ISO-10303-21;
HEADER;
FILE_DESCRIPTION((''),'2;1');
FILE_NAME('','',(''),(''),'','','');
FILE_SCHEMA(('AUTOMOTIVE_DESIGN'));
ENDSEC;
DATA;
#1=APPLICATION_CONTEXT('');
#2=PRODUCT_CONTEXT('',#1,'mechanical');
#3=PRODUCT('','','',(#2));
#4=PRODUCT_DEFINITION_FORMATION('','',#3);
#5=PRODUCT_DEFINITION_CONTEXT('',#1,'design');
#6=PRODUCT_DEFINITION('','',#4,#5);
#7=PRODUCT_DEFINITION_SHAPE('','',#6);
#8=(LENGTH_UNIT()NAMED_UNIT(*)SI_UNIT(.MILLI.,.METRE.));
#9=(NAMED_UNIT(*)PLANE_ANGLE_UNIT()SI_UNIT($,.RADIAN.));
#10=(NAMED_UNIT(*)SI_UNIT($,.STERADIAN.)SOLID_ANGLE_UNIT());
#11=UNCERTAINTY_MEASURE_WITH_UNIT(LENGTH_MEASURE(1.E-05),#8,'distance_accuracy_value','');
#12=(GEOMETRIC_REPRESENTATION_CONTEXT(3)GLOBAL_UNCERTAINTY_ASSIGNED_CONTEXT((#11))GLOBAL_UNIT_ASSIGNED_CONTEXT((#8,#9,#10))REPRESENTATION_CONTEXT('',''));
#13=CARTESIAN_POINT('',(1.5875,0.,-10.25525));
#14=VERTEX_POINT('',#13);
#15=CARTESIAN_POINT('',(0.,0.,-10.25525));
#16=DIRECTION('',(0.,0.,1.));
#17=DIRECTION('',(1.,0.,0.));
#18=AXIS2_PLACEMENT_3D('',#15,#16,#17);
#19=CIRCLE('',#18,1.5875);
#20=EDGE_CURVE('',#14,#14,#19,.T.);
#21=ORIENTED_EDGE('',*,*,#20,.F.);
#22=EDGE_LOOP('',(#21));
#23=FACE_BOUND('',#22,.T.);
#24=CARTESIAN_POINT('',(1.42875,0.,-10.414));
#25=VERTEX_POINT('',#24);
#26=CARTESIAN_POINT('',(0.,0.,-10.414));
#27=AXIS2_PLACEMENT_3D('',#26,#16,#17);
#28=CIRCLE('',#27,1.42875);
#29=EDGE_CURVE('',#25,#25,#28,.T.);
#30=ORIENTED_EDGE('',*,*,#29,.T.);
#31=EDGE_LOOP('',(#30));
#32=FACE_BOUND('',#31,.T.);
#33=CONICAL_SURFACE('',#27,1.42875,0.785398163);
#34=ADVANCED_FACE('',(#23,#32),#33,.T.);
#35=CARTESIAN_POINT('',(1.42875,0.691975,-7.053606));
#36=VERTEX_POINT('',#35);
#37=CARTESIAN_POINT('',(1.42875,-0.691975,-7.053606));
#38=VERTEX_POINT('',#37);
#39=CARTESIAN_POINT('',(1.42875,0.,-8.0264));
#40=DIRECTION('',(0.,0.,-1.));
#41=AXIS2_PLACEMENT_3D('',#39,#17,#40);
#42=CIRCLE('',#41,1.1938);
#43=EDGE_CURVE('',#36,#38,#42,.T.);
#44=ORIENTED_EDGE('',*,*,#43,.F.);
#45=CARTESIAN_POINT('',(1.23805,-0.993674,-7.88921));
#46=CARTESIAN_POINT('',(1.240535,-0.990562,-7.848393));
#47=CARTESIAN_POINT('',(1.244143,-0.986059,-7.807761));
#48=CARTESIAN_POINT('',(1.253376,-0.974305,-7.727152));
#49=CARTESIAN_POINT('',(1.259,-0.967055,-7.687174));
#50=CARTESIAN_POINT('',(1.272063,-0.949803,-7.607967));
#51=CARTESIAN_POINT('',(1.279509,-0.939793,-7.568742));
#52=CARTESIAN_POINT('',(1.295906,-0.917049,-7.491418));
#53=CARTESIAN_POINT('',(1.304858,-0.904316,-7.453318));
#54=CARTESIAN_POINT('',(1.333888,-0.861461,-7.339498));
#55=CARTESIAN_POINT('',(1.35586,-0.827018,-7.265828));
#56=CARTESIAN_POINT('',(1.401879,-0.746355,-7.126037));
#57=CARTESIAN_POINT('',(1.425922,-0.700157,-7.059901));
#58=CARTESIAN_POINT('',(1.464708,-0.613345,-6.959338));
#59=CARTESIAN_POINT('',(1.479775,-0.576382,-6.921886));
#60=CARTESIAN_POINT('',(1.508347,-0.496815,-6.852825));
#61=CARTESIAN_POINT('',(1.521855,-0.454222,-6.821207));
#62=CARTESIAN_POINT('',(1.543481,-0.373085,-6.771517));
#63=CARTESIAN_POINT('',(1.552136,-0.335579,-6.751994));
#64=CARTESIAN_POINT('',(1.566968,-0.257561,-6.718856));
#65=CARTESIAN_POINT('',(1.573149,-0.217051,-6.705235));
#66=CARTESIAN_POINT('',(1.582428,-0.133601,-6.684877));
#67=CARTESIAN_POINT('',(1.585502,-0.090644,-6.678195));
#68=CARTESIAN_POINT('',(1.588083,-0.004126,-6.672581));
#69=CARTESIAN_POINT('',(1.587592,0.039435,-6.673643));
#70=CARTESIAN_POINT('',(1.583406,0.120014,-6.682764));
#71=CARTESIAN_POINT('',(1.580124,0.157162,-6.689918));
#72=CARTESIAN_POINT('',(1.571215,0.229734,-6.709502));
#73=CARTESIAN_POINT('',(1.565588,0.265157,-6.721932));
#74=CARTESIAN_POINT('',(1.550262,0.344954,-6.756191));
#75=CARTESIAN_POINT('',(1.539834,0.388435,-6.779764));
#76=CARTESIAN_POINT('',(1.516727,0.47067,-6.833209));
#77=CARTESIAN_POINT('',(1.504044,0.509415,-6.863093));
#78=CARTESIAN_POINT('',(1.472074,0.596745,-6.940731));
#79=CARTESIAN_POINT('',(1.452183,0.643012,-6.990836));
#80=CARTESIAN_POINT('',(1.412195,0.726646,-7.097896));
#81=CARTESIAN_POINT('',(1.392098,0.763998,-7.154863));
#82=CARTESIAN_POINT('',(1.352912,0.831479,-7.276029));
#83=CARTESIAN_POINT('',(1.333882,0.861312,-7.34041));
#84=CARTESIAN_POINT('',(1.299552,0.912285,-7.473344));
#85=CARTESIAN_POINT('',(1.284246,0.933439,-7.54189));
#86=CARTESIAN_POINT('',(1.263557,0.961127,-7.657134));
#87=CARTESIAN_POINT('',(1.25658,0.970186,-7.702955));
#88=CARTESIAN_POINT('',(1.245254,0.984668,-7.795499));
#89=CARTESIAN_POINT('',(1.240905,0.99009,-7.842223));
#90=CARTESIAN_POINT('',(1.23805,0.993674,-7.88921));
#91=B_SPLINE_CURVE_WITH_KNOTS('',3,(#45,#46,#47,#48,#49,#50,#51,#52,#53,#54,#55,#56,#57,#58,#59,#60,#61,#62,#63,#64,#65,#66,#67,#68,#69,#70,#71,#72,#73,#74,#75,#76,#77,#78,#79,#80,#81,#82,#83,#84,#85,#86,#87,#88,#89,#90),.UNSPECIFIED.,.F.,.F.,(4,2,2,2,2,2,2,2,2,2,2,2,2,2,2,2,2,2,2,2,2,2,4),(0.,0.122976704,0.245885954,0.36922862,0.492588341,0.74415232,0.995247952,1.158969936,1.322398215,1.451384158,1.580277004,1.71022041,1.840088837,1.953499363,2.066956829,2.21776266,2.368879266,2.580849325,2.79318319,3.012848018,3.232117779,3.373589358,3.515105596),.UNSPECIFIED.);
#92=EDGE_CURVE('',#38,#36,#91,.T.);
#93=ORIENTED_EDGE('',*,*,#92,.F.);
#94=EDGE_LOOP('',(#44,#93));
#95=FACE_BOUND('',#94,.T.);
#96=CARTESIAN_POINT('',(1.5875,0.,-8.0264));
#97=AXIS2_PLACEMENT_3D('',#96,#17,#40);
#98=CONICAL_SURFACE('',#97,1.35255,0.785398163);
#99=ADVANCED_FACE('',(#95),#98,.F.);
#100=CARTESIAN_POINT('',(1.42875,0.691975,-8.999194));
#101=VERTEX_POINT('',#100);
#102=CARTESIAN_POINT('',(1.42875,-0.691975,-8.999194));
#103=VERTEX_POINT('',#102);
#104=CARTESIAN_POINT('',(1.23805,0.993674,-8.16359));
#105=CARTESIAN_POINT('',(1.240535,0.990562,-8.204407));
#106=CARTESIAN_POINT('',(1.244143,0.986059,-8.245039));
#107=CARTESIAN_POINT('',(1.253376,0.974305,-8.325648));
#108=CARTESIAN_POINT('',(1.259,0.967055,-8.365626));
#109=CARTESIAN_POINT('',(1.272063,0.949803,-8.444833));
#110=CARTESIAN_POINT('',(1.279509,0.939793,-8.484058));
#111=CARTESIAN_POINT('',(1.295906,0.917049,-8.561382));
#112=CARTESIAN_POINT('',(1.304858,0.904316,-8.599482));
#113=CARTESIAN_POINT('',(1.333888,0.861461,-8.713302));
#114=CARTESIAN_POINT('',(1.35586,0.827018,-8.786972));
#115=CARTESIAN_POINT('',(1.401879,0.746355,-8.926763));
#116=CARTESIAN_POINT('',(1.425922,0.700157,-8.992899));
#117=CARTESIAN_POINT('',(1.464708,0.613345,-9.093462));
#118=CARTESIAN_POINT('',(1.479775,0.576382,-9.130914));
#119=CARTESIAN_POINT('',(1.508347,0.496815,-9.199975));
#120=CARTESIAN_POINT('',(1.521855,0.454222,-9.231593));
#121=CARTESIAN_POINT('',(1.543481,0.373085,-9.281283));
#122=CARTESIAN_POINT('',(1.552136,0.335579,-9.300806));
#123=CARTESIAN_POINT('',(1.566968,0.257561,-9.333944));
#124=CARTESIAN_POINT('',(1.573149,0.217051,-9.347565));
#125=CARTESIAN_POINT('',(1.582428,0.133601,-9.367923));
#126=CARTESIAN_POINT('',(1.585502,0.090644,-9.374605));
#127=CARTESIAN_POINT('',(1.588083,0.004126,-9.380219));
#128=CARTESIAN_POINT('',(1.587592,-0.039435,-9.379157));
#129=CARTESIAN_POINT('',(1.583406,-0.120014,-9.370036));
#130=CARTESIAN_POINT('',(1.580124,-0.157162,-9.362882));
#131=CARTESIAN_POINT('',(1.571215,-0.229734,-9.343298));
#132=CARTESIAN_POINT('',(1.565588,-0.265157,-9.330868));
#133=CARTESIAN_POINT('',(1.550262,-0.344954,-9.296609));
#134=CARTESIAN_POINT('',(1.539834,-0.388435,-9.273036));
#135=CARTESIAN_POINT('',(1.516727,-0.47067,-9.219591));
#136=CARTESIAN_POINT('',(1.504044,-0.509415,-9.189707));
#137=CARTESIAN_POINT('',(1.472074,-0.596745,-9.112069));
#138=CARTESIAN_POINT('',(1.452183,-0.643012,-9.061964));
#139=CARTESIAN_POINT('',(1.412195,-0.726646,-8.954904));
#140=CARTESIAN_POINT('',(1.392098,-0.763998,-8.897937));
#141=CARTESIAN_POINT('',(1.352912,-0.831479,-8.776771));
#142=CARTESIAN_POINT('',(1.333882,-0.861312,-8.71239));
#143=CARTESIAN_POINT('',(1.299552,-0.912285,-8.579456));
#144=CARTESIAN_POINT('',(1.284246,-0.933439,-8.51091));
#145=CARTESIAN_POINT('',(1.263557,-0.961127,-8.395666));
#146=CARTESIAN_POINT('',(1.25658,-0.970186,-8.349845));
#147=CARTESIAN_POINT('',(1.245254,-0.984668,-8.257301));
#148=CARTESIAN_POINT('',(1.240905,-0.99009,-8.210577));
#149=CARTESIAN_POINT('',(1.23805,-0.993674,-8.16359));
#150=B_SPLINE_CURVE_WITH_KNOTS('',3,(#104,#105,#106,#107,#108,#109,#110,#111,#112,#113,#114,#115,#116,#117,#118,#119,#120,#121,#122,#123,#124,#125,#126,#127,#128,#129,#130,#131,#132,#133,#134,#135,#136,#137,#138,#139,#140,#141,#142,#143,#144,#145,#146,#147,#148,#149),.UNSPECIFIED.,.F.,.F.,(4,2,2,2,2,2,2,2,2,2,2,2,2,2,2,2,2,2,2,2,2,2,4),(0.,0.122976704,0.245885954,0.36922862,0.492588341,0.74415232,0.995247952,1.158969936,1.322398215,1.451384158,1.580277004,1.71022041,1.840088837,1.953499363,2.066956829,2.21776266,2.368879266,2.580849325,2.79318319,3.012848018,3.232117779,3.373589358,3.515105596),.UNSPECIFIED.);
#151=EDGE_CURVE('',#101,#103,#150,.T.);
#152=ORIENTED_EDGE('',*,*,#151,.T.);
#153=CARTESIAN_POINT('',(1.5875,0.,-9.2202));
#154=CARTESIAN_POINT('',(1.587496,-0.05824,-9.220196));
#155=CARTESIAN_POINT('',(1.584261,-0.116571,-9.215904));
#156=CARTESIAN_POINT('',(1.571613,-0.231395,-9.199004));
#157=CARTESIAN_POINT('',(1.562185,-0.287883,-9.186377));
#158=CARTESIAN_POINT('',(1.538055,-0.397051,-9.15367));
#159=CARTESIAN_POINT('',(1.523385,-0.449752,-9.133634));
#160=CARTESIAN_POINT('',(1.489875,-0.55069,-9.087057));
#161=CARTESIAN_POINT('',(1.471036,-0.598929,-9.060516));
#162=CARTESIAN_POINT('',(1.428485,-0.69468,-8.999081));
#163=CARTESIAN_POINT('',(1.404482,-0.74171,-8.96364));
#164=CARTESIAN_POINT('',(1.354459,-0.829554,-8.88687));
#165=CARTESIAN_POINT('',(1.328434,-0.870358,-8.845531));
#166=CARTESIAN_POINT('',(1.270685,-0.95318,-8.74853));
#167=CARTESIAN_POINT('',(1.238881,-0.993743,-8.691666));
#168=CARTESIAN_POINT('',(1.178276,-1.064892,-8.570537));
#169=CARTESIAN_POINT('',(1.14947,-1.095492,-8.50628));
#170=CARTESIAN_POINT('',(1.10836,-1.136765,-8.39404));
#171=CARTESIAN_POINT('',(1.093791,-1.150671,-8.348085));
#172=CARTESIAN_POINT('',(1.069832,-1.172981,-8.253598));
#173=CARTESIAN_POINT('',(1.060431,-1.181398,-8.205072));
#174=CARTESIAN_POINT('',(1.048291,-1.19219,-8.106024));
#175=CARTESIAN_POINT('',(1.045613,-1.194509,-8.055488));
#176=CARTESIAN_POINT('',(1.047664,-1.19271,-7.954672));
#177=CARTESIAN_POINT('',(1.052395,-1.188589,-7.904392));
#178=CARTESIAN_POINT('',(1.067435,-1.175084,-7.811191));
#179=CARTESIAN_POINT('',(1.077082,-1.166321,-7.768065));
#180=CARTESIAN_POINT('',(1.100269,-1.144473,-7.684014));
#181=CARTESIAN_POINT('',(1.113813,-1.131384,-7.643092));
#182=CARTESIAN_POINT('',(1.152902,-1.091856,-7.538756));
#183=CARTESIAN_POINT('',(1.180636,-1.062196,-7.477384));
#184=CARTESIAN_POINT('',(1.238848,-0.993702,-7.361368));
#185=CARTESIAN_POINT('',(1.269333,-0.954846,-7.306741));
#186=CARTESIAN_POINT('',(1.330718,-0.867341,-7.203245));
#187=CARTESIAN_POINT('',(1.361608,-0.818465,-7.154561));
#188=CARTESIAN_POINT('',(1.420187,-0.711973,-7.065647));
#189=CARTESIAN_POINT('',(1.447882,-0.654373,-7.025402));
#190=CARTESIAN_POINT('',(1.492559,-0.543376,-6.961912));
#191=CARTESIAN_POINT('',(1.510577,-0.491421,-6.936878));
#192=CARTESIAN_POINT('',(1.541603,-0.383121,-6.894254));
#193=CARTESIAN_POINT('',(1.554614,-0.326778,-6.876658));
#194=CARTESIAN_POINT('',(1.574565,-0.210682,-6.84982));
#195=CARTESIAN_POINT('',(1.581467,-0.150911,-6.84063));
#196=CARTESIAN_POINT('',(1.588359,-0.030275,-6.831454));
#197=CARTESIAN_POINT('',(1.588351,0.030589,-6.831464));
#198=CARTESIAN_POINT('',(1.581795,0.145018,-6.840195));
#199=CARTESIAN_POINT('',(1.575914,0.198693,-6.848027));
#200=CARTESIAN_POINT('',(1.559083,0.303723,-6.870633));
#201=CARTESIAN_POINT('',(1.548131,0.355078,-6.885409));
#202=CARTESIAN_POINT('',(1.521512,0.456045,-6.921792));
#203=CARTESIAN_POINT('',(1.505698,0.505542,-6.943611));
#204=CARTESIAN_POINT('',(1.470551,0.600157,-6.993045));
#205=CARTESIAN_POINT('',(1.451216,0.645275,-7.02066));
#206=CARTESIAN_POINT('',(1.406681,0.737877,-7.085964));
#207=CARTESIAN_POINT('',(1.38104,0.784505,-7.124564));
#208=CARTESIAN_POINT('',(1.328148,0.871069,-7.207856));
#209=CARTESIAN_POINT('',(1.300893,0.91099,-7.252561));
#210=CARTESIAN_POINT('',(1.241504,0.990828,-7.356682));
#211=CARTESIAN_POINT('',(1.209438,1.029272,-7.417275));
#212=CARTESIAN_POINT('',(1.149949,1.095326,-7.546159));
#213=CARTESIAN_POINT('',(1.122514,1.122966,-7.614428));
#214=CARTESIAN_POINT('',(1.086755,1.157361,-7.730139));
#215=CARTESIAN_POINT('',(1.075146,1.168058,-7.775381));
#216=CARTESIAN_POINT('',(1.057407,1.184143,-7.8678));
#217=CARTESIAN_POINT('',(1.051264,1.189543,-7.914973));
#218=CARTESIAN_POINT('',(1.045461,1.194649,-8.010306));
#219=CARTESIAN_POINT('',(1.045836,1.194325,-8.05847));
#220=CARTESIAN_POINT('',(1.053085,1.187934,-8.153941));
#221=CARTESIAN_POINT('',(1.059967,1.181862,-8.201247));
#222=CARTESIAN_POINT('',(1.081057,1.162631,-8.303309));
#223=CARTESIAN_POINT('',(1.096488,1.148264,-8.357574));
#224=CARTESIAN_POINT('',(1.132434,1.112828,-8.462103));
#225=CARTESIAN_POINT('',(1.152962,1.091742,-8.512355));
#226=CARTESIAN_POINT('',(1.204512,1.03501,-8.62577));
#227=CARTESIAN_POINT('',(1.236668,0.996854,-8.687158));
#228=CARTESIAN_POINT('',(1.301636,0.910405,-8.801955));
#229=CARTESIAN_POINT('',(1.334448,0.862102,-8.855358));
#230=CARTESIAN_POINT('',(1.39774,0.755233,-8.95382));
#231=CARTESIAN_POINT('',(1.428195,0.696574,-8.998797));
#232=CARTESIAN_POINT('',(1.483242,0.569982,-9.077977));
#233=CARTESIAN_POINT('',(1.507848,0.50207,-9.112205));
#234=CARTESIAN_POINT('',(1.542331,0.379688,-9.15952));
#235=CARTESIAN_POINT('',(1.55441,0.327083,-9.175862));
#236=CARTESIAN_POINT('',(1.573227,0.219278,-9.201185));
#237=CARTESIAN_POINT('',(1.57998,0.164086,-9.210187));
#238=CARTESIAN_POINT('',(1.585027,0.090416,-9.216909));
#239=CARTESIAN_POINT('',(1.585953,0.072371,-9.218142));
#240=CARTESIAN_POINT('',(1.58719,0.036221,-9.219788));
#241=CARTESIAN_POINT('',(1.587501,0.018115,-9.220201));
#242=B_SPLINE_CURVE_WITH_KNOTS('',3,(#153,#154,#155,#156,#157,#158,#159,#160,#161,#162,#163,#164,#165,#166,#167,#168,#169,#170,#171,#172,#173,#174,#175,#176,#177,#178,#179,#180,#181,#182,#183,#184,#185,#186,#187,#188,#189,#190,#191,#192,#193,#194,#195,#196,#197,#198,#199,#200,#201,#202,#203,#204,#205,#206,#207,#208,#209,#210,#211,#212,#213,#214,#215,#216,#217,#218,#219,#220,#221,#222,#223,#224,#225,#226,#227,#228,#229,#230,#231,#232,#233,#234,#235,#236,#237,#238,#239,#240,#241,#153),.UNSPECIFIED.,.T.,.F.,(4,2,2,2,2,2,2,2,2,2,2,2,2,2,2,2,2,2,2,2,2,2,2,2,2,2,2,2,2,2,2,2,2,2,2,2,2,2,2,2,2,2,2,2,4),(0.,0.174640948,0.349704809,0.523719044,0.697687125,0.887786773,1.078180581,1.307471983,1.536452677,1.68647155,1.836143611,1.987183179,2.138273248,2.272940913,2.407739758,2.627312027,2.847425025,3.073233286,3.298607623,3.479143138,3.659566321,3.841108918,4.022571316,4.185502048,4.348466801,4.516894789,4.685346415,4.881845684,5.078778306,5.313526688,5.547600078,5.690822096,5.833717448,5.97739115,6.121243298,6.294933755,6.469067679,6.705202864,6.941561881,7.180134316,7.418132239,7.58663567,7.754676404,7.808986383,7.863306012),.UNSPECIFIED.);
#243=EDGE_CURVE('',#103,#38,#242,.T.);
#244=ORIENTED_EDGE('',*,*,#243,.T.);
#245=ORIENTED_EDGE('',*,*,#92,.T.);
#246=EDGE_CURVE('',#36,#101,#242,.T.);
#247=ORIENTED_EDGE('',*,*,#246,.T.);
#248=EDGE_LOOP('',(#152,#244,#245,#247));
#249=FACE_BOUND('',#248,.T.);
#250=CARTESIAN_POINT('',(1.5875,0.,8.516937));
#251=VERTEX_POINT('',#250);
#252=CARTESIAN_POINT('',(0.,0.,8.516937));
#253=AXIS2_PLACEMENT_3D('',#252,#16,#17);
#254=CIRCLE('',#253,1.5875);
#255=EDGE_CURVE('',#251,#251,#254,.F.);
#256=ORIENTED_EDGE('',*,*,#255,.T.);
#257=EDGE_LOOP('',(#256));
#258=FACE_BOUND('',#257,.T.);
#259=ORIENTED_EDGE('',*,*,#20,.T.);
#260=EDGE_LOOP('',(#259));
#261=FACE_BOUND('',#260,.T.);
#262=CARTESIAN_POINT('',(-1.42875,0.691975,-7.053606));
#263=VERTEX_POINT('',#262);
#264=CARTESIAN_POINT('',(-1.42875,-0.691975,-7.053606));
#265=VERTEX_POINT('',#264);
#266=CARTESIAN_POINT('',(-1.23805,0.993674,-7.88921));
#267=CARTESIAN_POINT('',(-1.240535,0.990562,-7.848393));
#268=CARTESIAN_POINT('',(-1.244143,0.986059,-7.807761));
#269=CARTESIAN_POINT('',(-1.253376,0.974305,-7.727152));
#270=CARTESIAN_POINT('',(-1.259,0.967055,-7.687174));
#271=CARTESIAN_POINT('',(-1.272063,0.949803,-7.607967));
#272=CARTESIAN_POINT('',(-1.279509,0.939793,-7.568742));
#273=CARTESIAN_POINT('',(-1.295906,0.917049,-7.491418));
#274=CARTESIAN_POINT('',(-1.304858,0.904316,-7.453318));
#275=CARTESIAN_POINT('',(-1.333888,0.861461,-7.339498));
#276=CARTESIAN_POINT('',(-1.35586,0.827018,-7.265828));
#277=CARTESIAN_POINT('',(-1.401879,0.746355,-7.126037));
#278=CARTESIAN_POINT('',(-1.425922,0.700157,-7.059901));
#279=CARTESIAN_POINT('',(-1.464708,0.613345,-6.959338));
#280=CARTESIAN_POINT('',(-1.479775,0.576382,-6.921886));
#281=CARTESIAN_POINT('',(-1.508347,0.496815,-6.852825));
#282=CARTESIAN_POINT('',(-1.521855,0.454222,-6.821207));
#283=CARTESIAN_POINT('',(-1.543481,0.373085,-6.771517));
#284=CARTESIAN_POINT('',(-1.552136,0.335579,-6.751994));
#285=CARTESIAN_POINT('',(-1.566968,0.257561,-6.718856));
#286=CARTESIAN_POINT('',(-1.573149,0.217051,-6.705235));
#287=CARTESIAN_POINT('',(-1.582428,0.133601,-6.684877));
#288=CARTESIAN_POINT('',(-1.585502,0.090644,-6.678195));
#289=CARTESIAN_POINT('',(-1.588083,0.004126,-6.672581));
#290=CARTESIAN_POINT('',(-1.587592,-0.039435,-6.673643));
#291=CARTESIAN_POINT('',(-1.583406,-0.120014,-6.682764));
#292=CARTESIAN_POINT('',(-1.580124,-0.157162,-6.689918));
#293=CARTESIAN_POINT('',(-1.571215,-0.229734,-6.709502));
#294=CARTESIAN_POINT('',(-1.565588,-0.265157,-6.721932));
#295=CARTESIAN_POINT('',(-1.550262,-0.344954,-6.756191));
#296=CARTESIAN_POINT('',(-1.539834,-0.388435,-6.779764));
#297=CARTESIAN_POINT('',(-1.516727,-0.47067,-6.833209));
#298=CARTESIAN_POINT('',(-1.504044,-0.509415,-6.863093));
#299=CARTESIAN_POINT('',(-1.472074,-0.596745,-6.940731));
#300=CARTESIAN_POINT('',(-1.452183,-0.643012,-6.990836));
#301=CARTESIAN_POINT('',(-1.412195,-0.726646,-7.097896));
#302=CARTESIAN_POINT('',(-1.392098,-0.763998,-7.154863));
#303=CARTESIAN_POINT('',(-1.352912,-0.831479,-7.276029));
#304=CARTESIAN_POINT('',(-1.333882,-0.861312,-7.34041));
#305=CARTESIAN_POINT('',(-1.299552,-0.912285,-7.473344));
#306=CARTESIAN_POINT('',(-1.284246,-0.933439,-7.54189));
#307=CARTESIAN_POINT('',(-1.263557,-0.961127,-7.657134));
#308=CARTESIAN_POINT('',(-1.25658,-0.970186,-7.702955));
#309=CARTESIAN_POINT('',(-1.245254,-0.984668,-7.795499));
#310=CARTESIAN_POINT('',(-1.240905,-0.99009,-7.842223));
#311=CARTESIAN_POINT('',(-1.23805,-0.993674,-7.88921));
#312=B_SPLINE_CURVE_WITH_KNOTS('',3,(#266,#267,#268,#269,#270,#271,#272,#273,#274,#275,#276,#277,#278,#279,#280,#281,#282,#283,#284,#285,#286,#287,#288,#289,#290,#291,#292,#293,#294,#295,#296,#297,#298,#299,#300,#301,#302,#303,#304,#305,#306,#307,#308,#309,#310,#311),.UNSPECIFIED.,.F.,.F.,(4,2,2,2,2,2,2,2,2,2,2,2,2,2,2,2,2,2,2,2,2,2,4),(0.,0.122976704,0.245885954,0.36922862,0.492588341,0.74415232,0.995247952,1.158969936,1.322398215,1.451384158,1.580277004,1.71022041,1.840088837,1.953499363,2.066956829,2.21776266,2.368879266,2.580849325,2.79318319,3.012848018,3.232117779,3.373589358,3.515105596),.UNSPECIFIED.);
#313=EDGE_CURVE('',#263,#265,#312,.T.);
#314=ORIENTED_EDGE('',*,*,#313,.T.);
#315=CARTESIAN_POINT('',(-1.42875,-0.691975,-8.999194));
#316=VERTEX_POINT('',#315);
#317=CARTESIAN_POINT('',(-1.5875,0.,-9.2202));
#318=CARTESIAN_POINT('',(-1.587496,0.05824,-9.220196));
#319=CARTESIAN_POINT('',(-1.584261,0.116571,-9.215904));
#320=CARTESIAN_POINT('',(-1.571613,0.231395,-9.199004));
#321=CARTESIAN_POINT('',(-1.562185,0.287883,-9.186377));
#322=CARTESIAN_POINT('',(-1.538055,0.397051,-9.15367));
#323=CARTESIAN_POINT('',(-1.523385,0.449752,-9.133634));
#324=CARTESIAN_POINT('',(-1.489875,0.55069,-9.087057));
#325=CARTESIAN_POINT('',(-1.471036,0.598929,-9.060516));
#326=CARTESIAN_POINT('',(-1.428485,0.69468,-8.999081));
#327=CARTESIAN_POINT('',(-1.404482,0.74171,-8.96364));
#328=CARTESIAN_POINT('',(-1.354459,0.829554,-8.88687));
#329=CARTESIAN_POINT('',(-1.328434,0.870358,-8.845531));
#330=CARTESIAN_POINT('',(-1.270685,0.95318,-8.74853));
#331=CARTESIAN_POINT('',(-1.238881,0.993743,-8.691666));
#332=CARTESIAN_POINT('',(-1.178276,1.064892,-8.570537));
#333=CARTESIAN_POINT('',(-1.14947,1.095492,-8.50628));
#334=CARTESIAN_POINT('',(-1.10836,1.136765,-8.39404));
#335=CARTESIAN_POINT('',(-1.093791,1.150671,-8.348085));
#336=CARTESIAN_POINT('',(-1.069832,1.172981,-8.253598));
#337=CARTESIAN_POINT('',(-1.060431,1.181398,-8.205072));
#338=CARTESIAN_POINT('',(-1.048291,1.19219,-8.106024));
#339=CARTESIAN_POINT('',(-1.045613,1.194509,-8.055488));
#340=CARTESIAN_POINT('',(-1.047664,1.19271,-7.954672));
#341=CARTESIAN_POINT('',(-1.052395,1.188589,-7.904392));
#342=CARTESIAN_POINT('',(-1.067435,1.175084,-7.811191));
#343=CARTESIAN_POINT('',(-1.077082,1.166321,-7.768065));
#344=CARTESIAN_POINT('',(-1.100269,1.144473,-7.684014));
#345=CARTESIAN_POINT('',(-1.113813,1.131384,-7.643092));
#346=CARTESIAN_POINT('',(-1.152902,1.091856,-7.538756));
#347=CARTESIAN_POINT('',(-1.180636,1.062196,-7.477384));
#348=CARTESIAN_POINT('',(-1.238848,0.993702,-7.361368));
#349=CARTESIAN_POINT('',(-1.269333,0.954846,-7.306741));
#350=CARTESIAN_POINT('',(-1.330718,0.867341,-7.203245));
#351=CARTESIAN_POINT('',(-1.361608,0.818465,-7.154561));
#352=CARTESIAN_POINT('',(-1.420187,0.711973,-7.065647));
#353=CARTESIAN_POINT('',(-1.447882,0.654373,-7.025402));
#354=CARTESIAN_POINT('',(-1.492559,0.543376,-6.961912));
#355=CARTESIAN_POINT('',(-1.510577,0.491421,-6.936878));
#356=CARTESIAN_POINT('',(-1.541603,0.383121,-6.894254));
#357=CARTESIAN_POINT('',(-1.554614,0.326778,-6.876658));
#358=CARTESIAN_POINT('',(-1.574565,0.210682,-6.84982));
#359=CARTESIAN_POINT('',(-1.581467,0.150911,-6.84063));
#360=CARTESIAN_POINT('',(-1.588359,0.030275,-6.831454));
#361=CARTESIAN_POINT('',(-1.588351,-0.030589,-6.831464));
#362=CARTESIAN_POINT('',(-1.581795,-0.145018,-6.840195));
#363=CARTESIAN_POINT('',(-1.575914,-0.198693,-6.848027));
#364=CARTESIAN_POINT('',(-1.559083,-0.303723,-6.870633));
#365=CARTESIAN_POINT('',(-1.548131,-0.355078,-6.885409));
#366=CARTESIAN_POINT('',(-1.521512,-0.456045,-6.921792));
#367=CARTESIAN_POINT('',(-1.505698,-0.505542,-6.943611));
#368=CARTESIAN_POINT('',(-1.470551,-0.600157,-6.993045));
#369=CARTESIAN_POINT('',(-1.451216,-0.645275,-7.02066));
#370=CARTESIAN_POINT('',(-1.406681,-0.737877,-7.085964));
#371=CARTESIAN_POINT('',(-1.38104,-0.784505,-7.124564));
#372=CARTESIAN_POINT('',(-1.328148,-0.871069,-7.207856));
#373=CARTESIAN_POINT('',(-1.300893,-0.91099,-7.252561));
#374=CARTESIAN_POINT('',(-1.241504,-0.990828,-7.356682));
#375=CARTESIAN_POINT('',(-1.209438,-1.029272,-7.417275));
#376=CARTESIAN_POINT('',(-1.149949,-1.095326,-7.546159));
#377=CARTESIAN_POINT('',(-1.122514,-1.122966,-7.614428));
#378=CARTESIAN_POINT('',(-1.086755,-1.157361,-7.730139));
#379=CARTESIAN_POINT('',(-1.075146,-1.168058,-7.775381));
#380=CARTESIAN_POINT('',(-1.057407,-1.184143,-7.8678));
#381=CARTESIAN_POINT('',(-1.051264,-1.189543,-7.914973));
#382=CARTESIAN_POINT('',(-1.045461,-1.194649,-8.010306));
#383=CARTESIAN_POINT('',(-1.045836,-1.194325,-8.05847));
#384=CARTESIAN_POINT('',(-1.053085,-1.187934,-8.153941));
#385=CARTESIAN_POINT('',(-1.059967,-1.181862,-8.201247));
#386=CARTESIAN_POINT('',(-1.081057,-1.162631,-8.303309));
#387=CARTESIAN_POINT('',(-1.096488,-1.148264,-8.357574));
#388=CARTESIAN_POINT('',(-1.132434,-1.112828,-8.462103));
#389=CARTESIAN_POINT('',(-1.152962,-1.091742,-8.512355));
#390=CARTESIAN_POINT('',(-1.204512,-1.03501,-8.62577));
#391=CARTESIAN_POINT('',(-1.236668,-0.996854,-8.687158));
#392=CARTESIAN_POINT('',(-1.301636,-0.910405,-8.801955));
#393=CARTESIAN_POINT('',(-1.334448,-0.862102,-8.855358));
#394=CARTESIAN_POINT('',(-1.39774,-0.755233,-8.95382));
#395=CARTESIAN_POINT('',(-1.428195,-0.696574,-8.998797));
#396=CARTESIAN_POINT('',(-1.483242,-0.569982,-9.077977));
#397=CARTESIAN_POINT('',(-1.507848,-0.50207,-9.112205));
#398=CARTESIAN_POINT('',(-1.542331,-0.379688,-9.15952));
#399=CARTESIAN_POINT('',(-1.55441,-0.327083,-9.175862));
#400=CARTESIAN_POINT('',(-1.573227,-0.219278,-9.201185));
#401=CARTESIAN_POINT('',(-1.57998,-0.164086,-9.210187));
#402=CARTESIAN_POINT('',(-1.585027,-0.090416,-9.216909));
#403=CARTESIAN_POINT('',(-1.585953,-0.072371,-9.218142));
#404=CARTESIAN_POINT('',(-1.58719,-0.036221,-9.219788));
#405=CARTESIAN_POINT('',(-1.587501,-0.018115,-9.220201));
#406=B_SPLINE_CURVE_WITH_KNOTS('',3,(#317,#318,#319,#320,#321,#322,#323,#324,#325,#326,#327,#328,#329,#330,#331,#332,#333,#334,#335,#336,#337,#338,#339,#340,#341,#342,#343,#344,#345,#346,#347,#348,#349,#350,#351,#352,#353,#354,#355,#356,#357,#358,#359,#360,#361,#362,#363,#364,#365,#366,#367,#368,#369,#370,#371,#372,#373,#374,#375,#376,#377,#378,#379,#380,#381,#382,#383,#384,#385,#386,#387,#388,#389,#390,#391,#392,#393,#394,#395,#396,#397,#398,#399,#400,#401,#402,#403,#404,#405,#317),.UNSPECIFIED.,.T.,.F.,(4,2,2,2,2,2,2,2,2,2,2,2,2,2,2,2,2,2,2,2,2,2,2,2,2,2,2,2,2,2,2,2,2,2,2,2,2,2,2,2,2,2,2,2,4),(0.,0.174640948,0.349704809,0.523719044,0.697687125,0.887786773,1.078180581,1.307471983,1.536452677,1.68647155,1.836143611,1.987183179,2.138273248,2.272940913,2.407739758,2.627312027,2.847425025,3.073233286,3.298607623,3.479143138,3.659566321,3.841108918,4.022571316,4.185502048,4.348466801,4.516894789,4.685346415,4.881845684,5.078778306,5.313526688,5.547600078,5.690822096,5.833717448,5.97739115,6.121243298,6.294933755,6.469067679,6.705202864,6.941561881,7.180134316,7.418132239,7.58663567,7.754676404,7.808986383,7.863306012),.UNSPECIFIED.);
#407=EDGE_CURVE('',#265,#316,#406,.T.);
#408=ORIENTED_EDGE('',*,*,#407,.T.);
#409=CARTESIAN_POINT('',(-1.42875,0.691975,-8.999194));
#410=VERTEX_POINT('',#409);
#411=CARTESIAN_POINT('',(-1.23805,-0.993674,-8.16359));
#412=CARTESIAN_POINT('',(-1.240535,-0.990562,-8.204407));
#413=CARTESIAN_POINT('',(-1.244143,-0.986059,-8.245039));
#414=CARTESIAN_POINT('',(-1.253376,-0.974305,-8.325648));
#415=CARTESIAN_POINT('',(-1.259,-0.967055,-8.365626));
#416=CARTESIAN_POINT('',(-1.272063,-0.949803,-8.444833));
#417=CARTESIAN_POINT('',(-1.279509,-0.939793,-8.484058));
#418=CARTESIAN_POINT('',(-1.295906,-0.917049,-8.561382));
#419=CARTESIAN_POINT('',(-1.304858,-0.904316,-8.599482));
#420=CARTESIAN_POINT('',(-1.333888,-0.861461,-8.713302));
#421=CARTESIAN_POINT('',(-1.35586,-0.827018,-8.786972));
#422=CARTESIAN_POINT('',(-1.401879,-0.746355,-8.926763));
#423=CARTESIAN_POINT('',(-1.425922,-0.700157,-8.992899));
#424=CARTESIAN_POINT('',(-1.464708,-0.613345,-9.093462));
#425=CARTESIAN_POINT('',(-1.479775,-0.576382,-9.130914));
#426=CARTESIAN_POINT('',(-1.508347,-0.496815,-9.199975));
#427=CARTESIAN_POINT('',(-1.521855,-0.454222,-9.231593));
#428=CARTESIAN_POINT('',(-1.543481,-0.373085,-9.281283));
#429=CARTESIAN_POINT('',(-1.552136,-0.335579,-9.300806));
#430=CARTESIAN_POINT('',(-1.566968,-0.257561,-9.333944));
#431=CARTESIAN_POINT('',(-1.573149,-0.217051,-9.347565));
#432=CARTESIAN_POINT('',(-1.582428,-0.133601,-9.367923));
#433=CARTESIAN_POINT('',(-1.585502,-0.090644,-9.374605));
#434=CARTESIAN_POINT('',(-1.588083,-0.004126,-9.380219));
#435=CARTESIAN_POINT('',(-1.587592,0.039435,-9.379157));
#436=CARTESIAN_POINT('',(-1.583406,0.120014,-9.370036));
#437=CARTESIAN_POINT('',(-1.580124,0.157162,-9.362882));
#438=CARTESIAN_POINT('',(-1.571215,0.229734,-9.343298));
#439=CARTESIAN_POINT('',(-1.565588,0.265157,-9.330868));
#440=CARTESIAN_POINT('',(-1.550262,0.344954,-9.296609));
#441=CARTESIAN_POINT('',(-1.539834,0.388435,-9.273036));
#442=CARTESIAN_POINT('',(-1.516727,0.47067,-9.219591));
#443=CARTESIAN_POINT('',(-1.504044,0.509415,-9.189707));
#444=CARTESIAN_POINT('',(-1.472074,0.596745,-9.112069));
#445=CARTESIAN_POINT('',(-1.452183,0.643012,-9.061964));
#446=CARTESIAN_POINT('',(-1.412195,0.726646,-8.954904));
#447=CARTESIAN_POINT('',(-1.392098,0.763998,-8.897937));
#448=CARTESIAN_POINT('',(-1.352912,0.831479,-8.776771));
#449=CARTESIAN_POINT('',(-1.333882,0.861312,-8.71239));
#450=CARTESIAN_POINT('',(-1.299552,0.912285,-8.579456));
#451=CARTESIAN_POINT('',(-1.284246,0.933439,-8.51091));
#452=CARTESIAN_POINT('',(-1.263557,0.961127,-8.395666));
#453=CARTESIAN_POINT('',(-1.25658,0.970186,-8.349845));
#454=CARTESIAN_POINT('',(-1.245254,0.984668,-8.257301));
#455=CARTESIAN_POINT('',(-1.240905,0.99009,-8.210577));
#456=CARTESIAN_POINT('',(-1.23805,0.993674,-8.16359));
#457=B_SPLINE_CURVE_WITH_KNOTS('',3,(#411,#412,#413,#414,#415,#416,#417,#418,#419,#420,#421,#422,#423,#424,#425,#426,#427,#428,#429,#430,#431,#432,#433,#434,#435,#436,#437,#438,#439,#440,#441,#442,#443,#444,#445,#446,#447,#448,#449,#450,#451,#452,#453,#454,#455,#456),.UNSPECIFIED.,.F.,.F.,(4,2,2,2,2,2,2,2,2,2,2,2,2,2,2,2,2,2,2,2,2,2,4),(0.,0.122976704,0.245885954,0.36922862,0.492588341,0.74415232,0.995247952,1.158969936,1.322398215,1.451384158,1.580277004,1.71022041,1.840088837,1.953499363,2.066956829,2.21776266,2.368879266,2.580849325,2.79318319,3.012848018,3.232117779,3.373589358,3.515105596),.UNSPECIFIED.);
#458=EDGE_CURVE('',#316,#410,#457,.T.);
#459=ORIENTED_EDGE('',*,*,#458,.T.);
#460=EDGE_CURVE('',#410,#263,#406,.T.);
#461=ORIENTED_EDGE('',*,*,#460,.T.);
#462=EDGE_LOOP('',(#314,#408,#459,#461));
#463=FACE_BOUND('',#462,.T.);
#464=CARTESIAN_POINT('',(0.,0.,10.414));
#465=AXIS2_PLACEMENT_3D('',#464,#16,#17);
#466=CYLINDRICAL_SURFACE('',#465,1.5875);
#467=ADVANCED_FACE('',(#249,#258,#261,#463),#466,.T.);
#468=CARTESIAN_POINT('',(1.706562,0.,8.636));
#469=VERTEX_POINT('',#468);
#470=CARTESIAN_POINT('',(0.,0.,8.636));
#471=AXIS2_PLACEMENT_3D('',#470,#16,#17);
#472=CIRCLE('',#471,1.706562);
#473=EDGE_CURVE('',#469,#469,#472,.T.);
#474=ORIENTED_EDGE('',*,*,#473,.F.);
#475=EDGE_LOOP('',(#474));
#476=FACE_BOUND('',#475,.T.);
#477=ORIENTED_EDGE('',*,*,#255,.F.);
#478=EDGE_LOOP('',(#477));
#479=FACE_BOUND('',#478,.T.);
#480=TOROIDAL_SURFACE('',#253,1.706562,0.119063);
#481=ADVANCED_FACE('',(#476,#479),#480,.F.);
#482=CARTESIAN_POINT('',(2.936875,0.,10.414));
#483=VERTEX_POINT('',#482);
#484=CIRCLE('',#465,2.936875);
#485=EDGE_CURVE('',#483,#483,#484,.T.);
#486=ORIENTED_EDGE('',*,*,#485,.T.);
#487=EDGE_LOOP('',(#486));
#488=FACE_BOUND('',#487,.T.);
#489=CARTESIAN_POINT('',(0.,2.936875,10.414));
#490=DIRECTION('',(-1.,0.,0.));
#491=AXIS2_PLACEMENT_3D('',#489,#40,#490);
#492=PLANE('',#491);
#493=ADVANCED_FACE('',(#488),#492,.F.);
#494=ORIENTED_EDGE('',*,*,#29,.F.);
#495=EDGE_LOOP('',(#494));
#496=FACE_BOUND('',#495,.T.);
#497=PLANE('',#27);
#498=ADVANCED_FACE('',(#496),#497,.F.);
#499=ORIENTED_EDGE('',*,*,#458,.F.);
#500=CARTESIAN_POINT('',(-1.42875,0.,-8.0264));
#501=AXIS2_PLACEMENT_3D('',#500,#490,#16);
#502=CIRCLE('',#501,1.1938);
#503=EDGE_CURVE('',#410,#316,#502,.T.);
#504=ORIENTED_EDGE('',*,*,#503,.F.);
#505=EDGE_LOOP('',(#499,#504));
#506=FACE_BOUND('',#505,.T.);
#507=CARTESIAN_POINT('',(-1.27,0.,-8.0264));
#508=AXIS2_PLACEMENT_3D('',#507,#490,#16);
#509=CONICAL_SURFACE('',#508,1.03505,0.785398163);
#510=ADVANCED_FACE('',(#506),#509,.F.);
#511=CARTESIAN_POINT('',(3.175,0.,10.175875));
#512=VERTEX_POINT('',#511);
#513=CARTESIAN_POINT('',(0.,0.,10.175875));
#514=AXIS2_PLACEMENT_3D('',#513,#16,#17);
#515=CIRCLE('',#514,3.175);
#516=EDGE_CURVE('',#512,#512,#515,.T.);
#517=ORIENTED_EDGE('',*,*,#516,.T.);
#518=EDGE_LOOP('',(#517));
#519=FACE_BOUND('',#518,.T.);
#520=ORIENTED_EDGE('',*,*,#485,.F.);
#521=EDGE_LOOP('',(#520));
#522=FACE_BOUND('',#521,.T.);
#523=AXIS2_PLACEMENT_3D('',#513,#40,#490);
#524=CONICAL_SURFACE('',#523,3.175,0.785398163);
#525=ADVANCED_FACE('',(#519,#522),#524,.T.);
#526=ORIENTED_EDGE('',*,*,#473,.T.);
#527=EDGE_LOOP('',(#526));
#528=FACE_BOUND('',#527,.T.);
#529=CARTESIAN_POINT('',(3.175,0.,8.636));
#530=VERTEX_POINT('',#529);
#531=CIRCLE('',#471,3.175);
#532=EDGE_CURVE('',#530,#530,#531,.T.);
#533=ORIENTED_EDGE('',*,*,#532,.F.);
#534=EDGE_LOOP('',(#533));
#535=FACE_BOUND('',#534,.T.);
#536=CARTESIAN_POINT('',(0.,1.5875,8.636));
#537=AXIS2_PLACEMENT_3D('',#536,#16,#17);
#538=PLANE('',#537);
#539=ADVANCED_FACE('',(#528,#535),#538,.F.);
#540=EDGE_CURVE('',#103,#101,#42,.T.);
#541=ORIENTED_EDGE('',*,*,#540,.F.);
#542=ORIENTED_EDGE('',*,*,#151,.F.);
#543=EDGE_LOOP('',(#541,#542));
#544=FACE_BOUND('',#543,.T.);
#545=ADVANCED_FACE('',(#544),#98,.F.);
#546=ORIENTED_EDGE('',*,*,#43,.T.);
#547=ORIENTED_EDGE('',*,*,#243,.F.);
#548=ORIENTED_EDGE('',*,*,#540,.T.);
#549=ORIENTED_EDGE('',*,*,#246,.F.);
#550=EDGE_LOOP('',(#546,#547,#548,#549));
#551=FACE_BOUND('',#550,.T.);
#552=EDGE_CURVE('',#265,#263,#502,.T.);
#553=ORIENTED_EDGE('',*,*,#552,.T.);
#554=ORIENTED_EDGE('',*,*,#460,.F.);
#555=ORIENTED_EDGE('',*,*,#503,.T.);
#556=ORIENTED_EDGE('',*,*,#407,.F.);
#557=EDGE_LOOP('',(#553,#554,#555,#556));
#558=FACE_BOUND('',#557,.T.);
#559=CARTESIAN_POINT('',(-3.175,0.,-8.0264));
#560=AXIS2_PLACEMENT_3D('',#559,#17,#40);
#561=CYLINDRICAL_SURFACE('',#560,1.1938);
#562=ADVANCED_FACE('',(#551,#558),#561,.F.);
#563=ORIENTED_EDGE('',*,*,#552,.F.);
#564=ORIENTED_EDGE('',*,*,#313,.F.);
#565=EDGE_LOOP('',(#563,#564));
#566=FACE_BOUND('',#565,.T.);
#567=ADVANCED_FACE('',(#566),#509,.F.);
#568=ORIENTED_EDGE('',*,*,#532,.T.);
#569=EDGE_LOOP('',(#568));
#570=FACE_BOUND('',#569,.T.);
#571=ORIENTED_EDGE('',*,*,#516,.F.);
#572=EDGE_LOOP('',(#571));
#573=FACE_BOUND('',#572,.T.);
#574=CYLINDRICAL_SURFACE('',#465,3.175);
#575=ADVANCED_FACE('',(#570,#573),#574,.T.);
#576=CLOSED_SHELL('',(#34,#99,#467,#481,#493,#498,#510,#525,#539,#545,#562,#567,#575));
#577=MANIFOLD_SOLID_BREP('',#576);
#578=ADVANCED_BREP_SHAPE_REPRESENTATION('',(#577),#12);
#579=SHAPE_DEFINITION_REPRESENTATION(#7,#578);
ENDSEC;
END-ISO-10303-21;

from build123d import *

# Parameters (mm, degrees)
CUT_EXTRUDE1_DEPTH      = 12.340751562
CUT_EXTRUDE1_DEPTH_BACK = 12.340751562
SKETCH3_R               = 1.1938
FILLET1_R               = 0.1190625


with BuildPart() as part:
    # Sketch2 → Revolve1 (revolve)
    with BuildSketch(Plane(origin=(0, 0, 0), x_dir=(0, 0, -1), z_dir=(1, 0, 0))):
        Polygon((10.25525, 1.5875), (-8.636, 1.5875), (-8.636, 3.175), (-10.175875, 3.175), (-10.414, 2.936875), (-10.414, 0), (10.414, 0), (10.414, 1.42875), align=None)
    revolve(axis=Axis((0, 0, 10.414), (0, 0, -1)))

    # Sketch3 → Cut-Extrude1 (cut, two sides: drawn at the far end of the back side and taken through both)
    with BuildSketch(Plane(origin=(0, 0, 0), x_dir=(0, 0, -1), z_dir=(1, 0, 0)).offset(-CUT_EXTRUDE1_DEPTH_BACK)):
        with Locations((8.0264, 0)):
            Circle(SKETCH3_R)
    extrude(amount=CUT_EXTRUDE1_DEPTH + CUT_EXTRUDE1_DEPTH_BACK, mode=Mode.SUBTRACT)

    # Fillet1
    fillet1_edges = [part.edges().sort_by_distance(p)[0] for p in [
        (0, -1.5875, 8.636),
    ]]
    fillet(fillet1_edges, radius=FILLET1_R)

    # Sketch4 → Cut-Revolve1 (revolve, cut)
    with BuildSketch(Plane(origin=(0, 0, 0), x_dir=(1, 0, 0), z_dir=(0, 1, 0))):
        Polygon((-1.5875, 9.37895), (-1.27, 9.06145), (-1.5875, 9.06145), align=None)
        Polygon((1.5875, 9.06145), (1.5875, 9.37895), (1.27, 9.06145), align=None)
    revolve(axis=Axis((0, 0, -8.0264), (-1, 0, 0)), mode=Mode.SUBTRACT)


solid = part.part
